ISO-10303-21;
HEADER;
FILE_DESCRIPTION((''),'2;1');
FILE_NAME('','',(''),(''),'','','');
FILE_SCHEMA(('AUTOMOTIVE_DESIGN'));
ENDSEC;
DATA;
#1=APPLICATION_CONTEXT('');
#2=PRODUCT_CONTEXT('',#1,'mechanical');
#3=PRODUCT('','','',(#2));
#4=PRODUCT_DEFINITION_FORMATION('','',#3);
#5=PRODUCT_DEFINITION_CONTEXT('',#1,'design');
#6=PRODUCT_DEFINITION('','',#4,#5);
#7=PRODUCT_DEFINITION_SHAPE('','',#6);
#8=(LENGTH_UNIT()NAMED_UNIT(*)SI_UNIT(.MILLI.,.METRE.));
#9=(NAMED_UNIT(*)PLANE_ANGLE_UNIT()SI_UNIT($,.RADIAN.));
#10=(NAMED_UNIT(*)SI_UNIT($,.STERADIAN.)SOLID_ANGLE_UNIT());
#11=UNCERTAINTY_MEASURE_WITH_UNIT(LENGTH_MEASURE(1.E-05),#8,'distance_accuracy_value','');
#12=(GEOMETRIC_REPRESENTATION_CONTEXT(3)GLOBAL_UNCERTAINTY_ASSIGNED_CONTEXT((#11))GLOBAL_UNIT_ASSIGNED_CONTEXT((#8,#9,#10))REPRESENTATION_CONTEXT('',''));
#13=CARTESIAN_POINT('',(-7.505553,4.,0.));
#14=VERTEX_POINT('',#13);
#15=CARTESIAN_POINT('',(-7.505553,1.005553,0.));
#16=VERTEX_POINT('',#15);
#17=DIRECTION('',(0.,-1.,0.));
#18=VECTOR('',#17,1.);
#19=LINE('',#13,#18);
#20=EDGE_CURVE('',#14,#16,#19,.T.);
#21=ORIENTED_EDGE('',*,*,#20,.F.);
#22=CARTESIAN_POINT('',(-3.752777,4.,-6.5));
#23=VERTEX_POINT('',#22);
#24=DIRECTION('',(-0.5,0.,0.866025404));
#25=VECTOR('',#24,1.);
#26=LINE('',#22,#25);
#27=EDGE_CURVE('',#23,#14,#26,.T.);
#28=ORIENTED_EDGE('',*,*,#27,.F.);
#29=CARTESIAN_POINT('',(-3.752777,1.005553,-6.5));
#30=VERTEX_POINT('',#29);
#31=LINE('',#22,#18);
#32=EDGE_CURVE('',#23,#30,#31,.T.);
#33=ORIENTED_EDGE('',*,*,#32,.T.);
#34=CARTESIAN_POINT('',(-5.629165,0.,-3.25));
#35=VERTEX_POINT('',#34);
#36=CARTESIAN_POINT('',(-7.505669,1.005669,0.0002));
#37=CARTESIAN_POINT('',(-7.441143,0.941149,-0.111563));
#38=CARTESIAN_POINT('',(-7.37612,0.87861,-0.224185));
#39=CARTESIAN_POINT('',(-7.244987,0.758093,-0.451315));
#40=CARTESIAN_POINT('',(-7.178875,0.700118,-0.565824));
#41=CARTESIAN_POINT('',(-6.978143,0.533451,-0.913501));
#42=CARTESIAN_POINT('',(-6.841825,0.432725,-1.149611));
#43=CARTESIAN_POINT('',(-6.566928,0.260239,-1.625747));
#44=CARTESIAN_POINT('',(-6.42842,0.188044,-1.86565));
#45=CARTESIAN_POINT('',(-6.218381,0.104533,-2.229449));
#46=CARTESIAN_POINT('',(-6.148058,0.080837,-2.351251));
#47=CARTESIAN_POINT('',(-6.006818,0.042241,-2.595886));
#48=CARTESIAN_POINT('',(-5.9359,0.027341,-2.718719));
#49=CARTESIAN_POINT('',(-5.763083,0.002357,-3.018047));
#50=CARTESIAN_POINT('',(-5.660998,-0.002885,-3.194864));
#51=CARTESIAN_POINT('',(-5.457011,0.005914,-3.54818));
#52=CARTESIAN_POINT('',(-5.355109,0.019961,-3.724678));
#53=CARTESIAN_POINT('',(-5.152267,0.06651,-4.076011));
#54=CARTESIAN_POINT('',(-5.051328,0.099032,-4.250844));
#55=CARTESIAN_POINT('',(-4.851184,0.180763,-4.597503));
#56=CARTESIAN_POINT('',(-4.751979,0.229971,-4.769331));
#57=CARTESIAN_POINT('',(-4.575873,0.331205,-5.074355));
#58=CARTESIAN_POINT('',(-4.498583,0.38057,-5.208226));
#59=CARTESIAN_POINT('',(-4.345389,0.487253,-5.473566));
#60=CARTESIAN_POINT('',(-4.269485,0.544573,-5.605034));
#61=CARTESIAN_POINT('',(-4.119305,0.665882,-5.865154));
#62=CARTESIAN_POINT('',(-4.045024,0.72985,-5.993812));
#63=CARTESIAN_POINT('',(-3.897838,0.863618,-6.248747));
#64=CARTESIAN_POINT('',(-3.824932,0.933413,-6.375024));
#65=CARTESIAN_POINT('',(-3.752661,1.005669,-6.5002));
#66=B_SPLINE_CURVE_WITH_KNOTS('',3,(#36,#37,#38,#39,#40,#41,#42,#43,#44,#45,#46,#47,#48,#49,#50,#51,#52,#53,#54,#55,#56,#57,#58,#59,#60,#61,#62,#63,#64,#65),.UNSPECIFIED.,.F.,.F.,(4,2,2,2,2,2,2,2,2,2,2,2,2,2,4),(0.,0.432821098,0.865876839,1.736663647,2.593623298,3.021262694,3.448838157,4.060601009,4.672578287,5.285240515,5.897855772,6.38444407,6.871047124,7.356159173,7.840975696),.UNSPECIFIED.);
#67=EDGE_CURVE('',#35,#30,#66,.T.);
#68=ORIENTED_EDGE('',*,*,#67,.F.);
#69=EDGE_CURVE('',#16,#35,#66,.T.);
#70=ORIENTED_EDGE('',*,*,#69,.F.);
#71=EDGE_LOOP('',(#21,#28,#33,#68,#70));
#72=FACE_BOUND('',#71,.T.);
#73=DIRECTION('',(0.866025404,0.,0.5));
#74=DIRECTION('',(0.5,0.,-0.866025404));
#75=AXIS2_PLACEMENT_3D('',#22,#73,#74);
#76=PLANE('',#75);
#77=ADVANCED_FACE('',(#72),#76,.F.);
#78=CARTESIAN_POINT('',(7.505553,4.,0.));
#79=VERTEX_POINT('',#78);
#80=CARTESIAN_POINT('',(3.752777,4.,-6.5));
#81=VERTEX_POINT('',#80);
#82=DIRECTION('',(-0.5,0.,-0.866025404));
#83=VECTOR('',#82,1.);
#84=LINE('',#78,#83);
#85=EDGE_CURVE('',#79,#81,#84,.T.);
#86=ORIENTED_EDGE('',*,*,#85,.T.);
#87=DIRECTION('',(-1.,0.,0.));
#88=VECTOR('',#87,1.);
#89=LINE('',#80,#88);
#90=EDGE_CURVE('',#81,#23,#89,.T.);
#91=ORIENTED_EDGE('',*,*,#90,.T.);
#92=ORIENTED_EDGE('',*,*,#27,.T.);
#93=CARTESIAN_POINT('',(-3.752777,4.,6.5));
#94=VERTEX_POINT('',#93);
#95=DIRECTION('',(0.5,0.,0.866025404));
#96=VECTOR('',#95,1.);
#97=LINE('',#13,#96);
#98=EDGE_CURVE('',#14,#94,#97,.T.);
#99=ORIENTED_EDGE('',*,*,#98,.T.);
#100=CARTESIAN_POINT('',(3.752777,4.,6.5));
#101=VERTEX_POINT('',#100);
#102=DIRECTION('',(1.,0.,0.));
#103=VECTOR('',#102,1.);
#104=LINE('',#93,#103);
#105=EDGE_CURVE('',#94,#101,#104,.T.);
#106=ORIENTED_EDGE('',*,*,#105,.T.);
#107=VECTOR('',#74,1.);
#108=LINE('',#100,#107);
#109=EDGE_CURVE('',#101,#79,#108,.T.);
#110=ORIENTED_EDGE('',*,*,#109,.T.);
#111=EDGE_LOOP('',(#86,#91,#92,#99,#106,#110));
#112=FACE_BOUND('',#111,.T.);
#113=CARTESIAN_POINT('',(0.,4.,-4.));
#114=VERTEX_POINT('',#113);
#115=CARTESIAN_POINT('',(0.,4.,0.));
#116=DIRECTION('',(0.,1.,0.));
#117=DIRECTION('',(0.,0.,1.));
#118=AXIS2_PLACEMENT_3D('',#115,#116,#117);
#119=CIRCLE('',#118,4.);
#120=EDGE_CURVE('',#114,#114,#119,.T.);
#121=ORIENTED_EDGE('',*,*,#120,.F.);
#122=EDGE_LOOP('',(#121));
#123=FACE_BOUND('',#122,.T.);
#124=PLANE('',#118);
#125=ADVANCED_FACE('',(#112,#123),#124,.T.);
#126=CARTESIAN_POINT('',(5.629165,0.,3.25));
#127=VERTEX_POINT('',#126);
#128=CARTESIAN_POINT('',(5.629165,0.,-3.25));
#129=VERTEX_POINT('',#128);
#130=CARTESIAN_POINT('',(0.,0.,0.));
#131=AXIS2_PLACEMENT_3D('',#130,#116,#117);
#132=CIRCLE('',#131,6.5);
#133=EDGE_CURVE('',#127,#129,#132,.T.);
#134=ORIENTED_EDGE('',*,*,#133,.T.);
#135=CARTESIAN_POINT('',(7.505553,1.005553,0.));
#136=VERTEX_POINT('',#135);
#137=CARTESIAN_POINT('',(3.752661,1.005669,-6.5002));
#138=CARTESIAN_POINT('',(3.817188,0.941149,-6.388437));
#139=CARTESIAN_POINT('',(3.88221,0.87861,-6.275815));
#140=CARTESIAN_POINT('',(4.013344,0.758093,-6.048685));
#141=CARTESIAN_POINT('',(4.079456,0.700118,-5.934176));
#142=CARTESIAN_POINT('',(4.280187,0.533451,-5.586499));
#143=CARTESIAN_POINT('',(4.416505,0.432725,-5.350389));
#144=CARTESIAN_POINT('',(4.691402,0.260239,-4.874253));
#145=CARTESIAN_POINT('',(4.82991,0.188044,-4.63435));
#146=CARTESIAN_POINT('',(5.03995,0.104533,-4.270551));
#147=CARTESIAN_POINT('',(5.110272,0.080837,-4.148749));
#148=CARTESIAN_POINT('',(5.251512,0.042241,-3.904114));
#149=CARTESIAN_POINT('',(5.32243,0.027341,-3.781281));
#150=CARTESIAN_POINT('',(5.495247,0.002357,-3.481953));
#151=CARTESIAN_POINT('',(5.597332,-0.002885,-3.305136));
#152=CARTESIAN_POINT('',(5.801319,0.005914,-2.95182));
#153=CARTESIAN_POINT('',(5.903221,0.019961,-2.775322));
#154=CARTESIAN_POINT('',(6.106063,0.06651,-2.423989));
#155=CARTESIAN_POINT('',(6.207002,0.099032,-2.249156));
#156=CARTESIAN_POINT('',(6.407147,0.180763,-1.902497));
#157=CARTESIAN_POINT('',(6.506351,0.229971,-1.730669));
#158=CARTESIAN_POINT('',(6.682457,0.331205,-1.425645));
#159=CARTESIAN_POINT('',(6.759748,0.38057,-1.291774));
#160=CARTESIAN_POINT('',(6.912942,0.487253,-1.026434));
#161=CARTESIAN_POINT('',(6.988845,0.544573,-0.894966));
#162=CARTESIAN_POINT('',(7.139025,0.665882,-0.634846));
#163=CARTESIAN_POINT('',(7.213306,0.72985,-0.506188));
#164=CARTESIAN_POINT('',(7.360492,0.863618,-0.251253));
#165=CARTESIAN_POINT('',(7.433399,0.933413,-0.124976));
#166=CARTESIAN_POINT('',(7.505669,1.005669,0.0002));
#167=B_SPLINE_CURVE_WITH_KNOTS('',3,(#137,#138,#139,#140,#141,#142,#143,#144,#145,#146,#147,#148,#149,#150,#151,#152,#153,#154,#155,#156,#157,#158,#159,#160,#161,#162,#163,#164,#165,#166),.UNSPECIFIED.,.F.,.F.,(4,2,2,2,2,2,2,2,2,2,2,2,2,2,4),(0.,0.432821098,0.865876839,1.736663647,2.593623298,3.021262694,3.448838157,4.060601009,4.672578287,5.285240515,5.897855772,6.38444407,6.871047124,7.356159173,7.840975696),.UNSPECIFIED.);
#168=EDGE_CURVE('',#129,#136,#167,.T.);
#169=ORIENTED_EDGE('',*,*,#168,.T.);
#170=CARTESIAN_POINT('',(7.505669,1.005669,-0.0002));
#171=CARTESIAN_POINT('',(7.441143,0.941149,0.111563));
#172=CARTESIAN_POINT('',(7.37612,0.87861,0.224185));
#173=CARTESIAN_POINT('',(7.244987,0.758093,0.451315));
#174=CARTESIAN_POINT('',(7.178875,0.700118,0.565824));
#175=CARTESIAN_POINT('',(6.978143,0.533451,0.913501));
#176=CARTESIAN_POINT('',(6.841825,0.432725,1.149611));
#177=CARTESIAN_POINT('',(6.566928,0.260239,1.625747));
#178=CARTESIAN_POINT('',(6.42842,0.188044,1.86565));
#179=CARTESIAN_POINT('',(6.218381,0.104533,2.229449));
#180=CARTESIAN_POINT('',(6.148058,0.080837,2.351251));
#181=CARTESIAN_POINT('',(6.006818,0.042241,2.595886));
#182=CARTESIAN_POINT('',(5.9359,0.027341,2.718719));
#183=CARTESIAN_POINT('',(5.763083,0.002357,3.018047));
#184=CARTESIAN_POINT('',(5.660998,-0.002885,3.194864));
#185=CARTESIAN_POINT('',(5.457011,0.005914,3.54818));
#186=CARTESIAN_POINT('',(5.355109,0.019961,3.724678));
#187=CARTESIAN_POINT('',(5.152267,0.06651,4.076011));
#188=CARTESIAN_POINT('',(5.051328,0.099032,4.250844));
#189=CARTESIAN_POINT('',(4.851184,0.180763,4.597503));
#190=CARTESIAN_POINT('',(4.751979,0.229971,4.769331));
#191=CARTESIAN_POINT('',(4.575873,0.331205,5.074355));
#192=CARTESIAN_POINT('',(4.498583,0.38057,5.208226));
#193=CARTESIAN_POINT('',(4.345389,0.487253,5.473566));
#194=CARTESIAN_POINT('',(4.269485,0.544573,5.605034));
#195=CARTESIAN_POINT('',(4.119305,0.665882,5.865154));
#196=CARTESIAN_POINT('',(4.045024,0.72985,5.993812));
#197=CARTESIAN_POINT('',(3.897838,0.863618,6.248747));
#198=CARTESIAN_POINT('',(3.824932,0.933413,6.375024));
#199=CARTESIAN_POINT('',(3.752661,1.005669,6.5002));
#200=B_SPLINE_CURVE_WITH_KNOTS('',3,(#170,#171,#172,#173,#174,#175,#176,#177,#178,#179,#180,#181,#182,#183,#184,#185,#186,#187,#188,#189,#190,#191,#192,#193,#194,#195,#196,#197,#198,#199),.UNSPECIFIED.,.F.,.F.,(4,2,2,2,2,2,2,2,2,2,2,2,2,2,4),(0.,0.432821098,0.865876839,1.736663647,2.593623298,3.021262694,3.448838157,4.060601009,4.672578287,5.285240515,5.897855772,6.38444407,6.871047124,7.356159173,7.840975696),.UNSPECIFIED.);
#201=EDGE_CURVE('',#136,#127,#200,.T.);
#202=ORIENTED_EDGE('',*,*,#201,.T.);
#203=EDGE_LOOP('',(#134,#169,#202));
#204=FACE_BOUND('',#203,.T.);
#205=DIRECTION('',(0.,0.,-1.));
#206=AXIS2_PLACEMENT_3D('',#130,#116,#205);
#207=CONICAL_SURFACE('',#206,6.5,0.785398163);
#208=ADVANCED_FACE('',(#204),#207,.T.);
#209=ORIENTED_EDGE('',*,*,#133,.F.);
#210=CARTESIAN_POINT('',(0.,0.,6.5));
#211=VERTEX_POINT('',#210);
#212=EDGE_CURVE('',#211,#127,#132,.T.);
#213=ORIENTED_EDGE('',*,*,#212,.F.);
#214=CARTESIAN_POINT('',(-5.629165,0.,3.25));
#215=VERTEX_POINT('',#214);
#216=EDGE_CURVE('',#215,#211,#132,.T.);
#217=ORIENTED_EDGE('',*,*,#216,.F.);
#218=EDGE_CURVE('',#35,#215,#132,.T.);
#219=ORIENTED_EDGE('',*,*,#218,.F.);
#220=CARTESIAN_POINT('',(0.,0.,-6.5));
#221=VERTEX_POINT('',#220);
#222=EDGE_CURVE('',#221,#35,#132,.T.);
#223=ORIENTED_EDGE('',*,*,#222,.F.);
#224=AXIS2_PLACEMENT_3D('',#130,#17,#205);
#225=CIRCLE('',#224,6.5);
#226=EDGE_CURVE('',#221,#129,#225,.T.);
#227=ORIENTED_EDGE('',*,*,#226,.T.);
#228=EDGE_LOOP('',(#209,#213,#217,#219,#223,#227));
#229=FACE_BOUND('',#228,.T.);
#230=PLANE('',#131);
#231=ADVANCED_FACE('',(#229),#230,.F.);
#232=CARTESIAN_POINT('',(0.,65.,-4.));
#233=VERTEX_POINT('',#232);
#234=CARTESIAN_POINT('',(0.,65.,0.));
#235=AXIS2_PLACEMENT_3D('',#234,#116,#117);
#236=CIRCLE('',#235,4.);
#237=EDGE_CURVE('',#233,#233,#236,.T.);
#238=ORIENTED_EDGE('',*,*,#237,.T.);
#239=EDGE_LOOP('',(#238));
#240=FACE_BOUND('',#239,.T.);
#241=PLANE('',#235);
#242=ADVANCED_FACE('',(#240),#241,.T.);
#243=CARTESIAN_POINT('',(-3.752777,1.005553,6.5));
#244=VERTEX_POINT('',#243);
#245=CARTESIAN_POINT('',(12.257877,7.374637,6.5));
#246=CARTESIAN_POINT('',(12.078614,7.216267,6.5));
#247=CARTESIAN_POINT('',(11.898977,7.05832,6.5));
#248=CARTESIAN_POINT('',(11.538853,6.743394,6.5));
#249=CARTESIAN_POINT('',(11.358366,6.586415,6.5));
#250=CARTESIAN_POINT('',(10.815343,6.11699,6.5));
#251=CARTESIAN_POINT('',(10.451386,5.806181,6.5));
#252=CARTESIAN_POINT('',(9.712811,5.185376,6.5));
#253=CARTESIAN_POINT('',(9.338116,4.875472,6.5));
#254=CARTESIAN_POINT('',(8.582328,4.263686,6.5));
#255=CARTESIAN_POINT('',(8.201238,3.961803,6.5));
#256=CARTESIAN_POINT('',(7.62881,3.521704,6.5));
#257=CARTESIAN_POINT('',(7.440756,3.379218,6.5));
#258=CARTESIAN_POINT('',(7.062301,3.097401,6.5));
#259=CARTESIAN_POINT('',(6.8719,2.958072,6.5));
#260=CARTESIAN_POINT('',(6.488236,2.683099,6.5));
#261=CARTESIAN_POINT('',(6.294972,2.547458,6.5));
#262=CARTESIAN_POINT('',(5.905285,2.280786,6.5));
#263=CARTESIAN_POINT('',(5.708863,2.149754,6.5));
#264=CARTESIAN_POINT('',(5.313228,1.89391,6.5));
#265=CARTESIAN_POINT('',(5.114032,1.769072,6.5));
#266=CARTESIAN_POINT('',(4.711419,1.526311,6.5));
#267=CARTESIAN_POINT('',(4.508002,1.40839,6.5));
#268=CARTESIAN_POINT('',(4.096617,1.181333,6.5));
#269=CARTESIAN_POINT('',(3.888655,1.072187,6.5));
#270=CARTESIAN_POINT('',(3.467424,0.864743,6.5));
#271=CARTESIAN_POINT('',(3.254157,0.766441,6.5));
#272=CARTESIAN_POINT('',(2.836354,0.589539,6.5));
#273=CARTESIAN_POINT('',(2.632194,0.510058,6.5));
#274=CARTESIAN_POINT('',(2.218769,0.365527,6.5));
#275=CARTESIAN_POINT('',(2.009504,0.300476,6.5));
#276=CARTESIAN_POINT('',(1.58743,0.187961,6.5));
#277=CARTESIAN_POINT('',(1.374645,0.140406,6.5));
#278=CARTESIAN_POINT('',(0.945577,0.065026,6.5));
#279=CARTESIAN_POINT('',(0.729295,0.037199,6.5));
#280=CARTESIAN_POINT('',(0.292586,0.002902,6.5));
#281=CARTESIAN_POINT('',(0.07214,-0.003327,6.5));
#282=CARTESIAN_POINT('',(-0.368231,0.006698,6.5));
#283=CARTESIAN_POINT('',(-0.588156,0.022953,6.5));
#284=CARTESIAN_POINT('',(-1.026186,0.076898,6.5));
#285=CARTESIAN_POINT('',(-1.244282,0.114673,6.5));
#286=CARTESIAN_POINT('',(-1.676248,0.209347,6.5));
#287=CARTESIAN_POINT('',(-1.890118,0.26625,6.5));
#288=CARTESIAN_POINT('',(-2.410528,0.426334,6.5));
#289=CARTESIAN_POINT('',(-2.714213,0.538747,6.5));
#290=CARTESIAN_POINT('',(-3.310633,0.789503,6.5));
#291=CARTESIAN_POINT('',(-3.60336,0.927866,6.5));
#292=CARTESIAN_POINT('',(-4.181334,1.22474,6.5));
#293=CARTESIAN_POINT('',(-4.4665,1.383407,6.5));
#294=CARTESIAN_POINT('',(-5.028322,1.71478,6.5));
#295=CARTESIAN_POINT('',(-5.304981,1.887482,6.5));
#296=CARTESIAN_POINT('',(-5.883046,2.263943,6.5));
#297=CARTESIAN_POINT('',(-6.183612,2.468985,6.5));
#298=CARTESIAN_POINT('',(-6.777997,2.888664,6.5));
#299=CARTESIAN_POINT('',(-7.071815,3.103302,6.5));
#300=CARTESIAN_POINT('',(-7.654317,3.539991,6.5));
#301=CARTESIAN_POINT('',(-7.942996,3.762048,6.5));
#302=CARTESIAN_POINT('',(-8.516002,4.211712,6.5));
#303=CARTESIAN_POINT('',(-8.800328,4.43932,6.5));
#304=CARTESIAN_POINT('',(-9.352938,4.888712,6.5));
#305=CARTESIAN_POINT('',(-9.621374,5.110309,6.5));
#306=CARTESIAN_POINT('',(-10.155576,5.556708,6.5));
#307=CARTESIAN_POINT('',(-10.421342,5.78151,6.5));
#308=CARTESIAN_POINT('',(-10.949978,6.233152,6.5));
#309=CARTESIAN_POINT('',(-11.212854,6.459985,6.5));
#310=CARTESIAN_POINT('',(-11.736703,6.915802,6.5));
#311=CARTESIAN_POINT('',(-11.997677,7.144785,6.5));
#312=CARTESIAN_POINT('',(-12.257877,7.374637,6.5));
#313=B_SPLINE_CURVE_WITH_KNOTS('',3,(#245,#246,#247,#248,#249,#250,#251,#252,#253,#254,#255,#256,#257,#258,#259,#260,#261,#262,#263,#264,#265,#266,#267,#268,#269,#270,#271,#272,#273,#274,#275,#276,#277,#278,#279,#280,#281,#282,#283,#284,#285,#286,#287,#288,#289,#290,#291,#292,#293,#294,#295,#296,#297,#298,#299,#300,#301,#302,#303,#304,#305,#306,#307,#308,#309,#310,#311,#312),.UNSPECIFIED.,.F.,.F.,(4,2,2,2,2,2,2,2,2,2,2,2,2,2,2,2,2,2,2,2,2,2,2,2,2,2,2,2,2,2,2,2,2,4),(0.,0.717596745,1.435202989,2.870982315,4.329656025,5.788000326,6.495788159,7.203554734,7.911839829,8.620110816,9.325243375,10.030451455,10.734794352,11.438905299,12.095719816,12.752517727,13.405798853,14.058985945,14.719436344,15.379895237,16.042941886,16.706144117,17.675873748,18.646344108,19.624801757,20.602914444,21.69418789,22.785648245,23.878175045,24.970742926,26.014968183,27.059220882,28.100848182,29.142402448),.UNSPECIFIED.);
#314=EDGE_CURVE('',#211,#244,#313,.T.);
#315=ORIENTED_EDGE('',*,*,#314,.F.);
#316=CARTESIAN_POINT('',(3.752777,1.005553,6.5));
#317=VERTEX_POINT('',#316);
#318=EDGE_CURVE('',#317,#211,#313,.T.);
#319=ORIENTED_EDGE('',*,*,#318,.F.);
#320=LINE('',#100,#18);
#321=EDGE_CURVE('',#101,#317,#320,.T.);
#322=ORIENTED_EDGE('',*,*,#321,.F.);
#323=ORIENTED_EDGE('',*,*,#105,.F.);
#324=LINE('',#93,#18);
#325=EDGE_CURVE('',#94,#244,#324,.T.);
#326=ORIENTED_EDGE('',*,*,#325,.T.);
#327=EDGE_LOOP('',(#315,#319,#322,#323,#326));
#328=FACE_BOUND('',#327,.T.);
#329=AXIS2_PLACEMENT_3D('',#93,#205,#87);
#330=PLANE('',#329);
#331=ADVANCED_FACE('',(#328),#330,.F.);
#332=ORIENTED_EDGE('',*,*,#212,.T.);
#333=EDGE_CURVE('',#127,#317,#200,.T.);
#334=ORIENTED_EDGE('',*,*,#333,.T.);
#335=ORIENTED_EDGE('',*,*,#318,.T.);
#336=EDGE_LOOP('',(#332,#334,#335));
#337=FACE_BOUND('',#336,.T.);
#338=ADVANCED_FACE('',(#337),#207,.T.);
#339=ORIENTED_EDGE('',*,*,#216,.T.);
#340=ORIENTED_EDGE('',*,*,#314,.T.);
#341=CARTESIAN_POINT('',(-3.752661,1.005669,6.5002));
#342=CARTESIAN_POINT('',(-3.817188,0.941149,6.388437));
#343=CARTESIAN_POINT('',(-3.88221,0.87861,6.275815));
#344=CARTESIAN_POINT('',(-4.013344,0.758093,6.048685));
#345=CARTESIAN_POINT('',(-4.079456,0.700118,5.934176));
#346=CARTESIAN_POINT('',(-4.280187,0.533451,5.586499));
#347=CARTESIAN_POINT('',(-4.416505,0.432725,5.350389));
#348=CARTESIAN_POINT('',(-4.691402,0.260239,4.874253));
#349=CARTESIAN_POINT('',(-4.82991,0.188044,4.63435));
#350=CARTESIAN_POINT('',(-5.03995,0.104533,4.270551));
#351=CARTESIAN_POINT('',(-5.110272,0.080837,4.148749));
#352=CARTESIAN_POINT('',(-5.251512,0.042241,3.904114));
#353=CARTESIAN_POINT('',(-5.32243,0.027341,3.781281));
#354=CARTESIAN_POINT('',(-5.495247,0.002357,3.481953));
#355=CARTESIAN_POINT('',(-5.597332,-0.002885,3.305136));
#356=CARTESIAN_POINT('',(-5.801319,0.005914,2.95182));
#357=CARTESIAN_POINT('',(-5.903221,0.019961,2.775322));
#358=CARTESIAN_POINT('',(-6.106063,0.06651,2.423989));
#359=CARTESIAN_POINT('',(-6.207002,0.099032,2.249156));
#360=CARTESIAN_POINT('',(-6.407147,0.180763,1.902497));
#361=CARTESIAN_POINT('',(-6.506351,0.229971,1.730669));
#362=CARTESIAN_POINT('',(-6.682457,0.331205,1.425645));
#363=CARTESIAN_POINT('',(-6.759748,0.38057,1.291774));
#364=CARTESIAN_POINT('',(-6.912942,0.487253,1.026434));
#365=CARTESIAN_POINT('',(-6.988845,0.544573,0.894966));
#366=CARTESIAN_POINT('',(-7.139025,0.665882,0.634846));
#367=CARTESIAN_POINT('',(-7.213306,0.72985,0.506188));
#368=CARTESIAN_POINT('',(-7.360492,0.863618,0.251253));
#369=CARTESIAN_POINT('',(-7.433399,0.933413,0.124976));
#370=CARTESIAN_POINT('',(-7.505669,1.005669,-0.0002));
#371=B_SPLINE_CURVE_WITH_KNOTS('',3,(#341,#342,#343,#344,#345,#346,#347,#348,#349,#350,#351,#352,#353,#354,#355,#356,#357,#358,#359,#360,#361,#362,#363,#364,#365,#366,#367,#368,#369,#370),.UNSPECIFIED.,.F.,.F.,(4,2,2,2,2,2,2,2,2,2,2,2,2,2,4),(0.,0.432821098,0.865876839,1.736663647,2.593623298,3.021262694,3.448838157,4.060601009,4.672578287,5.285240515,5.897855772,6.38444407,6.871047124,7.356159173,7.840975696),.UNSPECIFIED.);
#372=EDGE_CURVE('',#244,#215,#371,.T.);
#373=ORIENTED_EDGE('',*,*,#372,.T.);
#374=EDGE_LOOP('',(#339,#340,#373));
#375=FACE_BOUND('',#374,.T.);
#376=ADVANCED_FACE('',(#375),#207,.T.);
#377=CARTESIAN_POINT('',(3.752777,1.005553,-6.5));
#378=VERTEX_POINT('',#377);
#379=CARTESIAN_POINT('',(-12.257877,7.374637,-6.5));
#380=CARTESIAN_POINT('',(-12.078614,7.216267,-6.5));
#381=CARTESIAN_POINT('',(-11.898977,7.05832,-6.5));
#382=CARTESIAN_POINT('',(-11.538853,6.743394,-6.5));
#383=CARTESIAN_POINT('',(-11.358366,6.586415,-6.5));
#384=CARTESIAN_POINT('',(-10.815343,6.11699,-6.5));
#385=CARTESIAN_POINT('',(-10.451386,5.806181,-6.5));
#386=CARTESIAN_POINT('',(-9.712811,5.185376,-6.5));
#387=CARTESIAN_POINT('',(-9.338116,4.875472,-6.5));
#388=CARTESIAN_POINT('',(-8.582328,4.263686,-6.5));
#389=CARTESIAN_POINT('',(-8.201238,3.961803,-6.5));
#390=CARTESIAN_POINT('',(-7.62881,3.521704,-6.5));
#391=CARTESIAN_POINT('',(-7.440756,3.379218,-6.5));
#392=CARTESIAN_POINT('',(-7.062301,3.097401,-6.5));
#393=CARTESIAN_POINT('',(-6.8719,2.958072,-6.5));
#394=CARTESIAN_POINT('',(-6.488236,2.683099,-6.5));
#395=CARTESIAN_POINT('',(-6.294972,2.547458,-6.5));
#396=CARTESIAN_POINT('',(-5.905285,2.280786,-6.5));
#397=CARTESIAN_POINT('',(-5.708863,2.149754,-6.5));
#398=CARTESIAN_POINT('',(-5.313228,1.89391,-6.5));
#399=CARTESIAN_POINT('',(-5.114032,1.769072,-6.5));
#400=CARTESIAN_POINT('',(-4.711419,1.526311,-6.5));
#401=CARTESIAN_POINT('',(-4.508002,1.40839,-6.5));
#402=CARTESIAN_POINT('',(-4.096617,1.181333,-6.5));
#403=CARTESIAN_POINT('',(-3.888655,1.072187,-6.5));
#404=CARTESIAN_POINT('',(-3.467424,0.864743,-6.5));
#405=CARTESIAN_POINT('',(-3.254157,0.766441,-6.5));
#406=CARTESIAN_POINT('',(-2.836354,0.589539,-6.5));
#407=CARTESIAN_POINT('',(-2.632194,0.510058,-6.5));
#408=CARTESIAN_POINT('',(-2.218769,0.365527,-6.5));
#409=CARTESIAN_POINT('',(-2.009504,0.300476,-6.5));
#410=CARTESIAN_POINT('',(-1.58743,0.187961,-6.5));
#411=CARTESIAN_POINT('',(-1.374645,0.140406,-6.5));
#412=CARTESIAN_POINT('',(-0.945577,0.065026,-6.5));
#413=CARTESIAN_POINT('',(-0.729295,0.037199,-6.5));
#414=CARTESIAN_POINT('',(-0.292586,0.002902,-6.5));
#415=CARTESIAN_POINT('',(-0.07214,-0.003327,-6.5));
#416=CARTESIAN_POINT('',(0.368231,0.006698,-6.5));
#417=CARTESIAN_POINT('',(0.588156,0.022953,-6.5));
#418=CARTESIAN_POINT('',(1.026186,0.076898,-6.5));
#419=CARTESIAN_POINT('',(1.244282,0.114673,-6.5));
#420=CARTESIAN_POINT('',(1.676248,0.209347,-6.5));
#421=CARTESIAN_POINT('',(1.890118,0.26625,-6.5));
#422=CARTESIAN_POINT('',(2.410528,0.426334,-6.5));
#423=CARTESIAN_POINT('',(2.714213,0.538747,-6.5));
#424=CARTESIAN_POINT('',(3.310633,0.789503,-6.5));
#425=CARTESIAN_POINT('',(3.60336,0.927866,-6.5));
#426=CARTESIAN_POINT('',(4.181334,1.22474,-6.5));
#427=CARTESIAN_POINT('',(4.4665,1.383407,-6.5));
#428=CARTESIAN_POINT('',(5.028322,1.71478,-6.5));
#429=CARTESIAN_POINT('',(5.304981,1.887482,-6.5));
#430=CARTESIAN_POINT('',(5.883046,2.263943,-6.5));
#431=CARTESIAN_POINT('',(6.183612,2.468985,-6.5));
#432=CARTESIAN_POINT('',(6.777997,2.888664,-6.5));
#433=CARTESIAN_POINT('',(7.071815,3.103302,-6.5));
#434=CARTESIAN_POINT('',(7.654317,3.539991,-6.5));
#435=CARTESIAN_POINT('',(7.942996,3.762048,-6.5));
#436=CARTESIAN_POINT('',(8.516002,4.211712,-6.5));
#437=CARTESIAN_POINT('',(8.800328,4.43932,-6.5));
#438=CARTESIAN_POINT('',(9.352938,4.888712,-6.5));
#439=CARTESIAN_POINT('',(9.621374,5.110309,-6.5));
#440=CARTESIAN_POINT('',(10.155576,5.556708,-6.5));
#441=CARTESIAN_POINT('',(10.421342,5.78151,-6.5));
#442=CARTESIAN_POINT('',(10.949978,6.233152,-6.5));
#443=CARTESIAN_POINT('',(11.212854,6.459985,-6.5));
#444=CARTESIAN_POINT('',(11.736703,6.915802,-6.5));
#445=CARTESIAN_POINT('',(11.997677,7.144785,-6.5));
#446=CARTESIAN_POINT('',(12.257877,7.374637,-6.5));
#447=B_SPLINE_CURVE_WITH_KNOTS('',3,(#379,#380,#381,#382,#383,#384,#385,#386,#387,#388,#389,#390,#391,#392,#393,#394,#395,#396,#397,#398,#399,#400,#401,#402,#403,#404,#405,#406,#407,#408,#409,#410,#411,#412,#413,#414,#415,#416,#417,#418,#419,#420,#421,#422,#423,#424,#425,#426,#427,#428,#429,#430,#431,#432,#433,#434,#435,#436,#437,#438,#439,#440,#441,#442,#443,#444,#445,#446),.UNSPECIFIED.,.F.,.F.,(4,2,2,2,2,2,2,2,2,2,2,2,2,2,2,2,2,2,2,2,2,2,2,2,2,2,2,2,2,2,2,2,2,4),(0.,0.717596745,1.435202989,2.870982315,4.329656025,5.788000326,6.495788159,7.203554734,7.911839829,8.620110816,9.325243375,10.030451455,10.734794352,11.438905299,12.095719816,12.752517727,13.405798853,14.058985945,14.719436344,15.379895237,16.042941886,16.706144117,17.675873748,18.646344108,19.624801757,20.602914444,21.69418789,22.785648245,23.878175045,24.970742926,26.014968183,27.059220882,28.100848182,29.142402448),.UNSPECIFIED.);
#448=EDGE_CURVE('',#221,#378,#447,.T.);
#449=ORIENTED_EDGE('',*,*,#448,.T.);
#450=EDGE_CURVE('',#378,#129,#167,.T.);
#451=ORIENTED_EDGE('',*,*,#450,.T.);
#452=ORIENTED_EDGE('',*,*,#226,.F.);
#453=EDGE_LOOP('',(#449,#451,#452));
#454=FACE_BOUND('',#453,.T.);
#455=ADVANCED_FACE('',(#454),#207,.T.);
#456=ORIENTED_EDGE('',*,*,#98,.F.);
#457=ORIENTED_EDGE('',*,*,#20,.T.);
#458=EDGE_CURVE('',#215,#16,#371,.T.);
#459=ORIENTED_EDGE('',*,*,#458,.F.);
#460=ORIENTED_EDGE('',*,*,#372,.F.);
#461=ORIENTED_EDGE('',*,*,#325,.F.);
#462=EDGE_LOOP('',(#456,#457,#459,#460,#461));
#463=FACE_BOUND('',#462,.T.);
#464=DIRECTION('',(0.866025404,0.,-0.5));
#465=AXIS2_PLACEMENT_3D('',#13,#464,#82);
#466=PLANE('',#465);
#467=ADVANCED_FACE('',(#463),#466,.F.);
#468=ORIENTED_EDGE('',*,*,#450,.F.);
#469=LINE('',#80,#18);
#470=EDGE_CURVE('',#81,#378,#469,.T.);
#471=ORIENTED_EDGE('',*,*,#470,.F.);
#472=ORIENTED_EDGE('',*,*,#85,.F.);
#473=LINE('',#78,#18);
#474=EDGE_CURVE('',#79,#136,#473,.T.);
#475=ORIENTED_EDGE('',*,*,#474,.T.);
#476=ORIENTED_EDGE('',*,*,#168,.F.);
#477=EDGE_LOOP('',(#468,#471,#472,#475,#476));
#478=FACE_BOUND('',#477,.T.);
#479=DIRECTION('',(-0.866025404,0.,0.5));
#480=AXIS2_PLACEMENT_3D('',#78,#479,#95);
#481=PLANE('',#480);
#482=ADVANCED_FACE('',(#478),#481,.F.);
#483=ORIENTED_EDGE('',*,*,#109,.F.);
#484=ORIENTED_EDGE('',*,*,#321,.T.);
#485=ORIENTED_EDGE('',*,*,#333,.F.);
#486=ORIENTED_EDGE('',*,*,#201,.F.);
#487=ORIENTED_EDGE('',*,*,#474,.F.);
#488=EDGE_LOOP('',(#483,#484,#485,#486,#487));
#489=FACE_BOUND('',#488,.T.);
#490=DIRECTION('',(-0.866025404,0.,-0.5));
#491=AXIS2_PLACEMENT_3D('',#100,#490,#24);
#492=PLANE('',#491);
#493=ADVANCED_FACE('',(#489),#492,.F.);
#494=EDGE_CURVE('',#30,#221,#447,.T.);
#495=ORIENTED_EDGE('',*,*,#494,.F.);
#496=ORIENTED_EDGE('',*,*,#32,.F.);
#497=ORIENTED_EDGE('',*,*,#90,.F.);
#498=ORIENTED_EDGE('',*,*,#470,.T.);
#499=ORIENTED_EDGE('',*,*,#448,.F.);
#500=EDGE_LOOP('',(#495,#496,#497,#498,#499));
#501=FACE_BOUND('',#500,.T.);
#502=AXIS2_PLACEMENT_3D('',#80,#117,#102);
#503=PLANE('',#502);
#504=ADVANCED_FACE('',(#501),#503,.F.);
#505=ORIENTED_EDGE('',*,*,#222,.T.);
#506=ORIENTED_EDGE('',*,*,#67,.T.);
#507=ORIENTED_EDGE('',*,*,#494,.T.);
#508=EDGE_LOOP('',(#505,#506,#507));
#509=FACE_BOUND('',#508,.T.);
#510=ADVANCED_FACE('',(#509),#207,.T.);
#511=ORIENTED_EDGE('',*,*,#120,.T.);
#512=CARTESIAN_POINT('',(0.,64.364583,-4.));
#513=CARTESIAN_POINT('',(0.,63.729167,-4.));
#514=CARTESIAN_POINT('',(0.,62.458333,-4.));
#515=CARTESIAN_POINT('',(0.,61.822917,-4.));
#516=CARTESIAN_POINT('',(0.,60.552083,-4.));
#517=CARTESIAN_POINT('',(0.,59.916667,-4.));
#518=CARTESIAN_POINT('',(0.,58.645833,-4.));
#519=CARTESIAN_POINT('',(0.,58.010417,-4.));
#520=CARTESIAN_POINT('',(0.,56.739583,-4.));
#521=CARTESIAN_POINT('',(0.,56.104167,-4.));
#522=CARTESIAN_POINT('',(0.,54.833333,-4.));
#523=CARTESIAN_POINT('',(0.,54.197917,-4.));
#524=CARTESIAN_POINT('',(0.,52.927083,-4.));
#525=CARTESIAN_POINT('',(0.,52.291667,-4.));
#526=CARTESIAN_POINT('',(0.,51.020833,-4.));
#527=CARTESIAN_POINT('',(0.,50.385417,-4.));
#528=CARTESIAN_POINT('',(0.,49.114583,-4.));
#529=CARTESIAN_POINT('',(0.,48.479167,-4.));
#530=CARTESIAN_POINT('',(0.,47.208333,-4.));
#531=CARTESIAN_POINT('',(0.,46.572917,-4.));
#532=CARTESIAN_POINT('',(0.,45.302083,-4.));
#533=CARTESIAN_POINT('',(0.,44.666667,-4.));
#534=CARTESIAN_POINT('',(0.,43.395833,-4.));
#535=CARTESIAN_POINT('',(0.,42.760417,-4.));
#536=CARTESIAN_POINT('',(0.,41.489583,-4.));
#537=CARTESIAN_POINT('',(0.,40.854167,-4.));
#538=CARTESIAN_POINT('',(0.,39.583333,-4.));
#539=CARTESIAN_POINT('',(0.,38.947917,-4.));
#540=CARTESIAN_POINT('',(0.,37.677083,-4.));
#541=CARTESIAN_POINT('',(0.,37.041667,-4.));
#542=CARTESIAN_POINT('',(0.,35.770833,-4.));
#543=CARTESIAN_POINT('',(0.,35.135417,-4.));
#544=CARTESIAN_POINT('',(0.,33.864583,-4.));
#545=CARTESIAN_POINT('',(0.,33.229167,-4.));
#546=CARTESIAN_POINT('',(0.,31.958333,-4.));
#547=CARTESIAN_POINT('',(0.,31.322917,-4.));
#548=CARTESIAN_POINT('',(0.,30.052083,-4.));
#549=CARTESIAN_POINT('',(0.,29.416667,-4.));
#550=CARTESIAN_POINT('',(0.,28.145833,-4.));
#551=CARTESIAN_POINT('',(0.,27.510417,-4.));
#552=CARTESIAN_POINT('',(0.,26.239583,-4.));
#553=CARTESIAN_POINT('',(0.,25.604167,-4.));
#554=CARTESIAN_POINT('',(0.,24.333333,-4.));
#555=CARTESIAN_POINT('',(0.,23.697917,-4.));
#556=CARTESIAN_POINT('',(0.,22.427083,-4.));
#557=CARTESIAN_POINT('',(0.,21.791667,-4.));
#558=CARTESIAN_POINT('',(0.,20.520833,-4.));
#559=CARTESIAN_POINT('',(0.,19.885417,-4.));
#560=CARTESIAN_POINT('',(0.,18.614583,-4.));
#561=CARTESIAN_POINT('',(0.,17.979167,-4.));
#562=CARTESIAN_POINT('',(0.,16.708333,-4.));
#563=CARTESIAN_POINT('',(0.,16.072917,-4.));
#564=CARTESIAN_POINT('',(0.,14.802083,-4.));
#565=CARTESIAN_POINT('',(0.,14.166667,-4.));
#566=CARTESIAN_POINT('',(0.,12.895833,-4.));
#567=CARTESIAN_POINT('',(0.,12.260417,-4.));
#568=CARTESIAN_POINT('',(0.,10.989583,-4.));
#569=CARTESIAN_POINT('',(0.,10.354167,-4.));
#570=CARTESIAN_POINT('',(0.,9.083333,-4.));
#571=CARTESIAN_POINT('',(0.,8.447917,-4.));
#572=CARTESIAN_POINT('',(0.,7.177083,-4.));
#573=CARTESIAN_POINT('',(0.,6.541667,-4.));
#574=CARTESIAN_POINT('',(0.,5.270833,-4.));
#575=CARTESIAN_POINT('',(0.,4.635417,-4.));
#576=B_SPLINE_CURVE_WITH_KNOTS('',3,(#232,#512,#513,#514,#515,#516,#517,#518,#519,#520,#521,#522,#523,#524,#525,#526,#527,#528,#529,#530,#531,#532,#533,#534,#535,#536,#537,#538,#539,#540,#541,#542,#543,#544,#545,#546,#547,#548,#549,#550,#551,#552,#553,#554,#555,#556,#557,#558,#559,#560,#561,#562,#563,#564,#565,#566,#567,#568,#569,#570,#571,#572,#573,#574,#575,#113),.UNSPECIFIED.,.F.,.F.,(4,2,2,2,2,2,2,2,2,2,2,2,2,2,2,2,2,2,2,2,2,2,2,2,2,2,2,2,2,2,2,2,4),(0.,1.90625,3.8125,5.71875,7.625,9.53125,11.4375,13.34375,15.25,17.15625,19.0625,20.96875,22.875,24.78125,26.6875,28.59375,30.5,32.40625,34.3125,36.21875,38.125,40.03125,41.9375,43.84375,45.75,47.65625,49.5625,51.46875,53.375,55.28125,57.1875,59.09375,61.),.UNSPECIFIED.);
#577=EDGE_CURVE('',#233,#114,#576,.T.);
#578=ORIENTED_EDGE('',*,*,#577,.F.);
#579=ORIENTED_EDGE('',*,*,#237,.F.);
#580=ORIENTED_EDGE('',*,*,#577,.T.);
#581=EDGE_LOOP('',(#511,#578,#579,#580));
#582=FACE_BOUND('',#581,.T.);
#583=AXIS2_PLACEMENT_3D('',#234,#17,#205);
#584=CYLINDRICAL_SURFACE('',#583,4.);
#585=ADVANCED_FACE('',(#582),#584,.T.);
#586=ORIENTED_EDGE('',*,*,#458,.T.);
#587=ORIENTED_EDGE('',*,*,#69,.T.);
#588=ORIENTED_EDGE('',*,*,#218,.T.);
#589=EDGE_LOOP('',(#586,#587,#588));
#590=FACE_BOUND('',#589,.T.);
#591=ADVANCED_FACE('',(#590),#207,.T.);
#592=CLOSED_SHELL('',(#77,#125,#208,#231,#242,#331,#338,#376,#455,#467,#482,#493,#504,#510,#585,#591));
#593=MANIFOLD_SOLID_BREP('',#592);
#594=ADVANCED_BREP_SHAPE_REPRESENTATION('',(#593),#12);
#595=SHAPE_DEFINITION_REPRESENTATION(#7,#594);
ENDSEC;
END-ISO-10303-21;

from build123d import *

# Parameters (mm, degrees)
BOSS_EXTRUDE1_DEPTH = 4
SKETCH2_OUTSIDE_W   = 44.472
SKETCH2_OUTSIDE_H   = 42.46
SKETCH2_OUTSIDE_R   = 6.5
CUT_EXTRUDE2_DEPTH  = 11.704360482
CUT_EXTRUDE2_DRAFT  = -45
SKETCH3_R           = 4
BOSS_EXTRUDE2_DEPTH = 61


with BuildPart() as part:
    # Sketch1 → Boss-Extrude1 (new body)
    with BuildSketch(Plane(origin=(0, 0, 0), x_dir=(1, 0, 0), z_dir=(0, 1, 0))):
        Polygon((7.505553499, 0), (3.75277675, 6.5), (-3.75277675, 6.5), (-7.505553499, 0), (-3.75277675, -6.5), (3.75277675, -6.5), align=None)
    extrude(amount=BOSS_EXTRUDE1_DEPTH)


with BuildPart() as cut_extrude2_tool:
    # Sketch2 outside → Cut-Extrude2 (with draft: the straight prism first)
    with BuildSketch(Plane(origin=(0, 0, 0), x_dir=(-1, 0, 0), z_dir=(0, -1, 0))):
        Rectangle(SKETCH2_OUTSIDE_W, SKETCH2_OUTSIDE_H)
        Circle(SKETCH2_OUTSIDE_R, mode=Mode.SUBTRACT)
    extrude(amount=-CUT_EXTRUDE2_DEPTH)
    # Cut-Extrude2: the draft: its side faces are tilted about the plane it starts from
    cut_extrude2_sides = [cut_extrude2_tool.faces().sort_by_distance(p)[0] for p in [
        (0, 5.852180241, 21.23),
        (-22.236, 5.852180241, 0),
        (0, 5.852180241, -21.23),
        (22.236, 5.852180241, 0),
        (6.5, 5.852180241, 0),
    ]]
    draft(cut_extrude2_sides, Plane(origin=(0, 0, 0), x_dir=(-1, 0, 0), z_dir=(0, -1, 0)), CUT_EXTRUDE2_DRAFT)


with BuildPart() as part_1:
    add(part.part)

    # Cut-Extrude2: cut by cut_extrude2_tool
    add(cut_extrude2_tool.part, mode=Mode.SUBTRACT)

    # Sketch3 → Boss-Extrude2 (add)
    with BuildSketch(Plane(origin=(0, 4, 0), x_dir=(1, 0, 0), z_dir=(0, 1, 0))):
        with Locations(Location((0, 0, 0), (0, 0, 90))):
            Circle(SKETCH3_R)
    extrude(amount=BOSS_EXTRUDE2_DEPTH)


solid = part_1.part
